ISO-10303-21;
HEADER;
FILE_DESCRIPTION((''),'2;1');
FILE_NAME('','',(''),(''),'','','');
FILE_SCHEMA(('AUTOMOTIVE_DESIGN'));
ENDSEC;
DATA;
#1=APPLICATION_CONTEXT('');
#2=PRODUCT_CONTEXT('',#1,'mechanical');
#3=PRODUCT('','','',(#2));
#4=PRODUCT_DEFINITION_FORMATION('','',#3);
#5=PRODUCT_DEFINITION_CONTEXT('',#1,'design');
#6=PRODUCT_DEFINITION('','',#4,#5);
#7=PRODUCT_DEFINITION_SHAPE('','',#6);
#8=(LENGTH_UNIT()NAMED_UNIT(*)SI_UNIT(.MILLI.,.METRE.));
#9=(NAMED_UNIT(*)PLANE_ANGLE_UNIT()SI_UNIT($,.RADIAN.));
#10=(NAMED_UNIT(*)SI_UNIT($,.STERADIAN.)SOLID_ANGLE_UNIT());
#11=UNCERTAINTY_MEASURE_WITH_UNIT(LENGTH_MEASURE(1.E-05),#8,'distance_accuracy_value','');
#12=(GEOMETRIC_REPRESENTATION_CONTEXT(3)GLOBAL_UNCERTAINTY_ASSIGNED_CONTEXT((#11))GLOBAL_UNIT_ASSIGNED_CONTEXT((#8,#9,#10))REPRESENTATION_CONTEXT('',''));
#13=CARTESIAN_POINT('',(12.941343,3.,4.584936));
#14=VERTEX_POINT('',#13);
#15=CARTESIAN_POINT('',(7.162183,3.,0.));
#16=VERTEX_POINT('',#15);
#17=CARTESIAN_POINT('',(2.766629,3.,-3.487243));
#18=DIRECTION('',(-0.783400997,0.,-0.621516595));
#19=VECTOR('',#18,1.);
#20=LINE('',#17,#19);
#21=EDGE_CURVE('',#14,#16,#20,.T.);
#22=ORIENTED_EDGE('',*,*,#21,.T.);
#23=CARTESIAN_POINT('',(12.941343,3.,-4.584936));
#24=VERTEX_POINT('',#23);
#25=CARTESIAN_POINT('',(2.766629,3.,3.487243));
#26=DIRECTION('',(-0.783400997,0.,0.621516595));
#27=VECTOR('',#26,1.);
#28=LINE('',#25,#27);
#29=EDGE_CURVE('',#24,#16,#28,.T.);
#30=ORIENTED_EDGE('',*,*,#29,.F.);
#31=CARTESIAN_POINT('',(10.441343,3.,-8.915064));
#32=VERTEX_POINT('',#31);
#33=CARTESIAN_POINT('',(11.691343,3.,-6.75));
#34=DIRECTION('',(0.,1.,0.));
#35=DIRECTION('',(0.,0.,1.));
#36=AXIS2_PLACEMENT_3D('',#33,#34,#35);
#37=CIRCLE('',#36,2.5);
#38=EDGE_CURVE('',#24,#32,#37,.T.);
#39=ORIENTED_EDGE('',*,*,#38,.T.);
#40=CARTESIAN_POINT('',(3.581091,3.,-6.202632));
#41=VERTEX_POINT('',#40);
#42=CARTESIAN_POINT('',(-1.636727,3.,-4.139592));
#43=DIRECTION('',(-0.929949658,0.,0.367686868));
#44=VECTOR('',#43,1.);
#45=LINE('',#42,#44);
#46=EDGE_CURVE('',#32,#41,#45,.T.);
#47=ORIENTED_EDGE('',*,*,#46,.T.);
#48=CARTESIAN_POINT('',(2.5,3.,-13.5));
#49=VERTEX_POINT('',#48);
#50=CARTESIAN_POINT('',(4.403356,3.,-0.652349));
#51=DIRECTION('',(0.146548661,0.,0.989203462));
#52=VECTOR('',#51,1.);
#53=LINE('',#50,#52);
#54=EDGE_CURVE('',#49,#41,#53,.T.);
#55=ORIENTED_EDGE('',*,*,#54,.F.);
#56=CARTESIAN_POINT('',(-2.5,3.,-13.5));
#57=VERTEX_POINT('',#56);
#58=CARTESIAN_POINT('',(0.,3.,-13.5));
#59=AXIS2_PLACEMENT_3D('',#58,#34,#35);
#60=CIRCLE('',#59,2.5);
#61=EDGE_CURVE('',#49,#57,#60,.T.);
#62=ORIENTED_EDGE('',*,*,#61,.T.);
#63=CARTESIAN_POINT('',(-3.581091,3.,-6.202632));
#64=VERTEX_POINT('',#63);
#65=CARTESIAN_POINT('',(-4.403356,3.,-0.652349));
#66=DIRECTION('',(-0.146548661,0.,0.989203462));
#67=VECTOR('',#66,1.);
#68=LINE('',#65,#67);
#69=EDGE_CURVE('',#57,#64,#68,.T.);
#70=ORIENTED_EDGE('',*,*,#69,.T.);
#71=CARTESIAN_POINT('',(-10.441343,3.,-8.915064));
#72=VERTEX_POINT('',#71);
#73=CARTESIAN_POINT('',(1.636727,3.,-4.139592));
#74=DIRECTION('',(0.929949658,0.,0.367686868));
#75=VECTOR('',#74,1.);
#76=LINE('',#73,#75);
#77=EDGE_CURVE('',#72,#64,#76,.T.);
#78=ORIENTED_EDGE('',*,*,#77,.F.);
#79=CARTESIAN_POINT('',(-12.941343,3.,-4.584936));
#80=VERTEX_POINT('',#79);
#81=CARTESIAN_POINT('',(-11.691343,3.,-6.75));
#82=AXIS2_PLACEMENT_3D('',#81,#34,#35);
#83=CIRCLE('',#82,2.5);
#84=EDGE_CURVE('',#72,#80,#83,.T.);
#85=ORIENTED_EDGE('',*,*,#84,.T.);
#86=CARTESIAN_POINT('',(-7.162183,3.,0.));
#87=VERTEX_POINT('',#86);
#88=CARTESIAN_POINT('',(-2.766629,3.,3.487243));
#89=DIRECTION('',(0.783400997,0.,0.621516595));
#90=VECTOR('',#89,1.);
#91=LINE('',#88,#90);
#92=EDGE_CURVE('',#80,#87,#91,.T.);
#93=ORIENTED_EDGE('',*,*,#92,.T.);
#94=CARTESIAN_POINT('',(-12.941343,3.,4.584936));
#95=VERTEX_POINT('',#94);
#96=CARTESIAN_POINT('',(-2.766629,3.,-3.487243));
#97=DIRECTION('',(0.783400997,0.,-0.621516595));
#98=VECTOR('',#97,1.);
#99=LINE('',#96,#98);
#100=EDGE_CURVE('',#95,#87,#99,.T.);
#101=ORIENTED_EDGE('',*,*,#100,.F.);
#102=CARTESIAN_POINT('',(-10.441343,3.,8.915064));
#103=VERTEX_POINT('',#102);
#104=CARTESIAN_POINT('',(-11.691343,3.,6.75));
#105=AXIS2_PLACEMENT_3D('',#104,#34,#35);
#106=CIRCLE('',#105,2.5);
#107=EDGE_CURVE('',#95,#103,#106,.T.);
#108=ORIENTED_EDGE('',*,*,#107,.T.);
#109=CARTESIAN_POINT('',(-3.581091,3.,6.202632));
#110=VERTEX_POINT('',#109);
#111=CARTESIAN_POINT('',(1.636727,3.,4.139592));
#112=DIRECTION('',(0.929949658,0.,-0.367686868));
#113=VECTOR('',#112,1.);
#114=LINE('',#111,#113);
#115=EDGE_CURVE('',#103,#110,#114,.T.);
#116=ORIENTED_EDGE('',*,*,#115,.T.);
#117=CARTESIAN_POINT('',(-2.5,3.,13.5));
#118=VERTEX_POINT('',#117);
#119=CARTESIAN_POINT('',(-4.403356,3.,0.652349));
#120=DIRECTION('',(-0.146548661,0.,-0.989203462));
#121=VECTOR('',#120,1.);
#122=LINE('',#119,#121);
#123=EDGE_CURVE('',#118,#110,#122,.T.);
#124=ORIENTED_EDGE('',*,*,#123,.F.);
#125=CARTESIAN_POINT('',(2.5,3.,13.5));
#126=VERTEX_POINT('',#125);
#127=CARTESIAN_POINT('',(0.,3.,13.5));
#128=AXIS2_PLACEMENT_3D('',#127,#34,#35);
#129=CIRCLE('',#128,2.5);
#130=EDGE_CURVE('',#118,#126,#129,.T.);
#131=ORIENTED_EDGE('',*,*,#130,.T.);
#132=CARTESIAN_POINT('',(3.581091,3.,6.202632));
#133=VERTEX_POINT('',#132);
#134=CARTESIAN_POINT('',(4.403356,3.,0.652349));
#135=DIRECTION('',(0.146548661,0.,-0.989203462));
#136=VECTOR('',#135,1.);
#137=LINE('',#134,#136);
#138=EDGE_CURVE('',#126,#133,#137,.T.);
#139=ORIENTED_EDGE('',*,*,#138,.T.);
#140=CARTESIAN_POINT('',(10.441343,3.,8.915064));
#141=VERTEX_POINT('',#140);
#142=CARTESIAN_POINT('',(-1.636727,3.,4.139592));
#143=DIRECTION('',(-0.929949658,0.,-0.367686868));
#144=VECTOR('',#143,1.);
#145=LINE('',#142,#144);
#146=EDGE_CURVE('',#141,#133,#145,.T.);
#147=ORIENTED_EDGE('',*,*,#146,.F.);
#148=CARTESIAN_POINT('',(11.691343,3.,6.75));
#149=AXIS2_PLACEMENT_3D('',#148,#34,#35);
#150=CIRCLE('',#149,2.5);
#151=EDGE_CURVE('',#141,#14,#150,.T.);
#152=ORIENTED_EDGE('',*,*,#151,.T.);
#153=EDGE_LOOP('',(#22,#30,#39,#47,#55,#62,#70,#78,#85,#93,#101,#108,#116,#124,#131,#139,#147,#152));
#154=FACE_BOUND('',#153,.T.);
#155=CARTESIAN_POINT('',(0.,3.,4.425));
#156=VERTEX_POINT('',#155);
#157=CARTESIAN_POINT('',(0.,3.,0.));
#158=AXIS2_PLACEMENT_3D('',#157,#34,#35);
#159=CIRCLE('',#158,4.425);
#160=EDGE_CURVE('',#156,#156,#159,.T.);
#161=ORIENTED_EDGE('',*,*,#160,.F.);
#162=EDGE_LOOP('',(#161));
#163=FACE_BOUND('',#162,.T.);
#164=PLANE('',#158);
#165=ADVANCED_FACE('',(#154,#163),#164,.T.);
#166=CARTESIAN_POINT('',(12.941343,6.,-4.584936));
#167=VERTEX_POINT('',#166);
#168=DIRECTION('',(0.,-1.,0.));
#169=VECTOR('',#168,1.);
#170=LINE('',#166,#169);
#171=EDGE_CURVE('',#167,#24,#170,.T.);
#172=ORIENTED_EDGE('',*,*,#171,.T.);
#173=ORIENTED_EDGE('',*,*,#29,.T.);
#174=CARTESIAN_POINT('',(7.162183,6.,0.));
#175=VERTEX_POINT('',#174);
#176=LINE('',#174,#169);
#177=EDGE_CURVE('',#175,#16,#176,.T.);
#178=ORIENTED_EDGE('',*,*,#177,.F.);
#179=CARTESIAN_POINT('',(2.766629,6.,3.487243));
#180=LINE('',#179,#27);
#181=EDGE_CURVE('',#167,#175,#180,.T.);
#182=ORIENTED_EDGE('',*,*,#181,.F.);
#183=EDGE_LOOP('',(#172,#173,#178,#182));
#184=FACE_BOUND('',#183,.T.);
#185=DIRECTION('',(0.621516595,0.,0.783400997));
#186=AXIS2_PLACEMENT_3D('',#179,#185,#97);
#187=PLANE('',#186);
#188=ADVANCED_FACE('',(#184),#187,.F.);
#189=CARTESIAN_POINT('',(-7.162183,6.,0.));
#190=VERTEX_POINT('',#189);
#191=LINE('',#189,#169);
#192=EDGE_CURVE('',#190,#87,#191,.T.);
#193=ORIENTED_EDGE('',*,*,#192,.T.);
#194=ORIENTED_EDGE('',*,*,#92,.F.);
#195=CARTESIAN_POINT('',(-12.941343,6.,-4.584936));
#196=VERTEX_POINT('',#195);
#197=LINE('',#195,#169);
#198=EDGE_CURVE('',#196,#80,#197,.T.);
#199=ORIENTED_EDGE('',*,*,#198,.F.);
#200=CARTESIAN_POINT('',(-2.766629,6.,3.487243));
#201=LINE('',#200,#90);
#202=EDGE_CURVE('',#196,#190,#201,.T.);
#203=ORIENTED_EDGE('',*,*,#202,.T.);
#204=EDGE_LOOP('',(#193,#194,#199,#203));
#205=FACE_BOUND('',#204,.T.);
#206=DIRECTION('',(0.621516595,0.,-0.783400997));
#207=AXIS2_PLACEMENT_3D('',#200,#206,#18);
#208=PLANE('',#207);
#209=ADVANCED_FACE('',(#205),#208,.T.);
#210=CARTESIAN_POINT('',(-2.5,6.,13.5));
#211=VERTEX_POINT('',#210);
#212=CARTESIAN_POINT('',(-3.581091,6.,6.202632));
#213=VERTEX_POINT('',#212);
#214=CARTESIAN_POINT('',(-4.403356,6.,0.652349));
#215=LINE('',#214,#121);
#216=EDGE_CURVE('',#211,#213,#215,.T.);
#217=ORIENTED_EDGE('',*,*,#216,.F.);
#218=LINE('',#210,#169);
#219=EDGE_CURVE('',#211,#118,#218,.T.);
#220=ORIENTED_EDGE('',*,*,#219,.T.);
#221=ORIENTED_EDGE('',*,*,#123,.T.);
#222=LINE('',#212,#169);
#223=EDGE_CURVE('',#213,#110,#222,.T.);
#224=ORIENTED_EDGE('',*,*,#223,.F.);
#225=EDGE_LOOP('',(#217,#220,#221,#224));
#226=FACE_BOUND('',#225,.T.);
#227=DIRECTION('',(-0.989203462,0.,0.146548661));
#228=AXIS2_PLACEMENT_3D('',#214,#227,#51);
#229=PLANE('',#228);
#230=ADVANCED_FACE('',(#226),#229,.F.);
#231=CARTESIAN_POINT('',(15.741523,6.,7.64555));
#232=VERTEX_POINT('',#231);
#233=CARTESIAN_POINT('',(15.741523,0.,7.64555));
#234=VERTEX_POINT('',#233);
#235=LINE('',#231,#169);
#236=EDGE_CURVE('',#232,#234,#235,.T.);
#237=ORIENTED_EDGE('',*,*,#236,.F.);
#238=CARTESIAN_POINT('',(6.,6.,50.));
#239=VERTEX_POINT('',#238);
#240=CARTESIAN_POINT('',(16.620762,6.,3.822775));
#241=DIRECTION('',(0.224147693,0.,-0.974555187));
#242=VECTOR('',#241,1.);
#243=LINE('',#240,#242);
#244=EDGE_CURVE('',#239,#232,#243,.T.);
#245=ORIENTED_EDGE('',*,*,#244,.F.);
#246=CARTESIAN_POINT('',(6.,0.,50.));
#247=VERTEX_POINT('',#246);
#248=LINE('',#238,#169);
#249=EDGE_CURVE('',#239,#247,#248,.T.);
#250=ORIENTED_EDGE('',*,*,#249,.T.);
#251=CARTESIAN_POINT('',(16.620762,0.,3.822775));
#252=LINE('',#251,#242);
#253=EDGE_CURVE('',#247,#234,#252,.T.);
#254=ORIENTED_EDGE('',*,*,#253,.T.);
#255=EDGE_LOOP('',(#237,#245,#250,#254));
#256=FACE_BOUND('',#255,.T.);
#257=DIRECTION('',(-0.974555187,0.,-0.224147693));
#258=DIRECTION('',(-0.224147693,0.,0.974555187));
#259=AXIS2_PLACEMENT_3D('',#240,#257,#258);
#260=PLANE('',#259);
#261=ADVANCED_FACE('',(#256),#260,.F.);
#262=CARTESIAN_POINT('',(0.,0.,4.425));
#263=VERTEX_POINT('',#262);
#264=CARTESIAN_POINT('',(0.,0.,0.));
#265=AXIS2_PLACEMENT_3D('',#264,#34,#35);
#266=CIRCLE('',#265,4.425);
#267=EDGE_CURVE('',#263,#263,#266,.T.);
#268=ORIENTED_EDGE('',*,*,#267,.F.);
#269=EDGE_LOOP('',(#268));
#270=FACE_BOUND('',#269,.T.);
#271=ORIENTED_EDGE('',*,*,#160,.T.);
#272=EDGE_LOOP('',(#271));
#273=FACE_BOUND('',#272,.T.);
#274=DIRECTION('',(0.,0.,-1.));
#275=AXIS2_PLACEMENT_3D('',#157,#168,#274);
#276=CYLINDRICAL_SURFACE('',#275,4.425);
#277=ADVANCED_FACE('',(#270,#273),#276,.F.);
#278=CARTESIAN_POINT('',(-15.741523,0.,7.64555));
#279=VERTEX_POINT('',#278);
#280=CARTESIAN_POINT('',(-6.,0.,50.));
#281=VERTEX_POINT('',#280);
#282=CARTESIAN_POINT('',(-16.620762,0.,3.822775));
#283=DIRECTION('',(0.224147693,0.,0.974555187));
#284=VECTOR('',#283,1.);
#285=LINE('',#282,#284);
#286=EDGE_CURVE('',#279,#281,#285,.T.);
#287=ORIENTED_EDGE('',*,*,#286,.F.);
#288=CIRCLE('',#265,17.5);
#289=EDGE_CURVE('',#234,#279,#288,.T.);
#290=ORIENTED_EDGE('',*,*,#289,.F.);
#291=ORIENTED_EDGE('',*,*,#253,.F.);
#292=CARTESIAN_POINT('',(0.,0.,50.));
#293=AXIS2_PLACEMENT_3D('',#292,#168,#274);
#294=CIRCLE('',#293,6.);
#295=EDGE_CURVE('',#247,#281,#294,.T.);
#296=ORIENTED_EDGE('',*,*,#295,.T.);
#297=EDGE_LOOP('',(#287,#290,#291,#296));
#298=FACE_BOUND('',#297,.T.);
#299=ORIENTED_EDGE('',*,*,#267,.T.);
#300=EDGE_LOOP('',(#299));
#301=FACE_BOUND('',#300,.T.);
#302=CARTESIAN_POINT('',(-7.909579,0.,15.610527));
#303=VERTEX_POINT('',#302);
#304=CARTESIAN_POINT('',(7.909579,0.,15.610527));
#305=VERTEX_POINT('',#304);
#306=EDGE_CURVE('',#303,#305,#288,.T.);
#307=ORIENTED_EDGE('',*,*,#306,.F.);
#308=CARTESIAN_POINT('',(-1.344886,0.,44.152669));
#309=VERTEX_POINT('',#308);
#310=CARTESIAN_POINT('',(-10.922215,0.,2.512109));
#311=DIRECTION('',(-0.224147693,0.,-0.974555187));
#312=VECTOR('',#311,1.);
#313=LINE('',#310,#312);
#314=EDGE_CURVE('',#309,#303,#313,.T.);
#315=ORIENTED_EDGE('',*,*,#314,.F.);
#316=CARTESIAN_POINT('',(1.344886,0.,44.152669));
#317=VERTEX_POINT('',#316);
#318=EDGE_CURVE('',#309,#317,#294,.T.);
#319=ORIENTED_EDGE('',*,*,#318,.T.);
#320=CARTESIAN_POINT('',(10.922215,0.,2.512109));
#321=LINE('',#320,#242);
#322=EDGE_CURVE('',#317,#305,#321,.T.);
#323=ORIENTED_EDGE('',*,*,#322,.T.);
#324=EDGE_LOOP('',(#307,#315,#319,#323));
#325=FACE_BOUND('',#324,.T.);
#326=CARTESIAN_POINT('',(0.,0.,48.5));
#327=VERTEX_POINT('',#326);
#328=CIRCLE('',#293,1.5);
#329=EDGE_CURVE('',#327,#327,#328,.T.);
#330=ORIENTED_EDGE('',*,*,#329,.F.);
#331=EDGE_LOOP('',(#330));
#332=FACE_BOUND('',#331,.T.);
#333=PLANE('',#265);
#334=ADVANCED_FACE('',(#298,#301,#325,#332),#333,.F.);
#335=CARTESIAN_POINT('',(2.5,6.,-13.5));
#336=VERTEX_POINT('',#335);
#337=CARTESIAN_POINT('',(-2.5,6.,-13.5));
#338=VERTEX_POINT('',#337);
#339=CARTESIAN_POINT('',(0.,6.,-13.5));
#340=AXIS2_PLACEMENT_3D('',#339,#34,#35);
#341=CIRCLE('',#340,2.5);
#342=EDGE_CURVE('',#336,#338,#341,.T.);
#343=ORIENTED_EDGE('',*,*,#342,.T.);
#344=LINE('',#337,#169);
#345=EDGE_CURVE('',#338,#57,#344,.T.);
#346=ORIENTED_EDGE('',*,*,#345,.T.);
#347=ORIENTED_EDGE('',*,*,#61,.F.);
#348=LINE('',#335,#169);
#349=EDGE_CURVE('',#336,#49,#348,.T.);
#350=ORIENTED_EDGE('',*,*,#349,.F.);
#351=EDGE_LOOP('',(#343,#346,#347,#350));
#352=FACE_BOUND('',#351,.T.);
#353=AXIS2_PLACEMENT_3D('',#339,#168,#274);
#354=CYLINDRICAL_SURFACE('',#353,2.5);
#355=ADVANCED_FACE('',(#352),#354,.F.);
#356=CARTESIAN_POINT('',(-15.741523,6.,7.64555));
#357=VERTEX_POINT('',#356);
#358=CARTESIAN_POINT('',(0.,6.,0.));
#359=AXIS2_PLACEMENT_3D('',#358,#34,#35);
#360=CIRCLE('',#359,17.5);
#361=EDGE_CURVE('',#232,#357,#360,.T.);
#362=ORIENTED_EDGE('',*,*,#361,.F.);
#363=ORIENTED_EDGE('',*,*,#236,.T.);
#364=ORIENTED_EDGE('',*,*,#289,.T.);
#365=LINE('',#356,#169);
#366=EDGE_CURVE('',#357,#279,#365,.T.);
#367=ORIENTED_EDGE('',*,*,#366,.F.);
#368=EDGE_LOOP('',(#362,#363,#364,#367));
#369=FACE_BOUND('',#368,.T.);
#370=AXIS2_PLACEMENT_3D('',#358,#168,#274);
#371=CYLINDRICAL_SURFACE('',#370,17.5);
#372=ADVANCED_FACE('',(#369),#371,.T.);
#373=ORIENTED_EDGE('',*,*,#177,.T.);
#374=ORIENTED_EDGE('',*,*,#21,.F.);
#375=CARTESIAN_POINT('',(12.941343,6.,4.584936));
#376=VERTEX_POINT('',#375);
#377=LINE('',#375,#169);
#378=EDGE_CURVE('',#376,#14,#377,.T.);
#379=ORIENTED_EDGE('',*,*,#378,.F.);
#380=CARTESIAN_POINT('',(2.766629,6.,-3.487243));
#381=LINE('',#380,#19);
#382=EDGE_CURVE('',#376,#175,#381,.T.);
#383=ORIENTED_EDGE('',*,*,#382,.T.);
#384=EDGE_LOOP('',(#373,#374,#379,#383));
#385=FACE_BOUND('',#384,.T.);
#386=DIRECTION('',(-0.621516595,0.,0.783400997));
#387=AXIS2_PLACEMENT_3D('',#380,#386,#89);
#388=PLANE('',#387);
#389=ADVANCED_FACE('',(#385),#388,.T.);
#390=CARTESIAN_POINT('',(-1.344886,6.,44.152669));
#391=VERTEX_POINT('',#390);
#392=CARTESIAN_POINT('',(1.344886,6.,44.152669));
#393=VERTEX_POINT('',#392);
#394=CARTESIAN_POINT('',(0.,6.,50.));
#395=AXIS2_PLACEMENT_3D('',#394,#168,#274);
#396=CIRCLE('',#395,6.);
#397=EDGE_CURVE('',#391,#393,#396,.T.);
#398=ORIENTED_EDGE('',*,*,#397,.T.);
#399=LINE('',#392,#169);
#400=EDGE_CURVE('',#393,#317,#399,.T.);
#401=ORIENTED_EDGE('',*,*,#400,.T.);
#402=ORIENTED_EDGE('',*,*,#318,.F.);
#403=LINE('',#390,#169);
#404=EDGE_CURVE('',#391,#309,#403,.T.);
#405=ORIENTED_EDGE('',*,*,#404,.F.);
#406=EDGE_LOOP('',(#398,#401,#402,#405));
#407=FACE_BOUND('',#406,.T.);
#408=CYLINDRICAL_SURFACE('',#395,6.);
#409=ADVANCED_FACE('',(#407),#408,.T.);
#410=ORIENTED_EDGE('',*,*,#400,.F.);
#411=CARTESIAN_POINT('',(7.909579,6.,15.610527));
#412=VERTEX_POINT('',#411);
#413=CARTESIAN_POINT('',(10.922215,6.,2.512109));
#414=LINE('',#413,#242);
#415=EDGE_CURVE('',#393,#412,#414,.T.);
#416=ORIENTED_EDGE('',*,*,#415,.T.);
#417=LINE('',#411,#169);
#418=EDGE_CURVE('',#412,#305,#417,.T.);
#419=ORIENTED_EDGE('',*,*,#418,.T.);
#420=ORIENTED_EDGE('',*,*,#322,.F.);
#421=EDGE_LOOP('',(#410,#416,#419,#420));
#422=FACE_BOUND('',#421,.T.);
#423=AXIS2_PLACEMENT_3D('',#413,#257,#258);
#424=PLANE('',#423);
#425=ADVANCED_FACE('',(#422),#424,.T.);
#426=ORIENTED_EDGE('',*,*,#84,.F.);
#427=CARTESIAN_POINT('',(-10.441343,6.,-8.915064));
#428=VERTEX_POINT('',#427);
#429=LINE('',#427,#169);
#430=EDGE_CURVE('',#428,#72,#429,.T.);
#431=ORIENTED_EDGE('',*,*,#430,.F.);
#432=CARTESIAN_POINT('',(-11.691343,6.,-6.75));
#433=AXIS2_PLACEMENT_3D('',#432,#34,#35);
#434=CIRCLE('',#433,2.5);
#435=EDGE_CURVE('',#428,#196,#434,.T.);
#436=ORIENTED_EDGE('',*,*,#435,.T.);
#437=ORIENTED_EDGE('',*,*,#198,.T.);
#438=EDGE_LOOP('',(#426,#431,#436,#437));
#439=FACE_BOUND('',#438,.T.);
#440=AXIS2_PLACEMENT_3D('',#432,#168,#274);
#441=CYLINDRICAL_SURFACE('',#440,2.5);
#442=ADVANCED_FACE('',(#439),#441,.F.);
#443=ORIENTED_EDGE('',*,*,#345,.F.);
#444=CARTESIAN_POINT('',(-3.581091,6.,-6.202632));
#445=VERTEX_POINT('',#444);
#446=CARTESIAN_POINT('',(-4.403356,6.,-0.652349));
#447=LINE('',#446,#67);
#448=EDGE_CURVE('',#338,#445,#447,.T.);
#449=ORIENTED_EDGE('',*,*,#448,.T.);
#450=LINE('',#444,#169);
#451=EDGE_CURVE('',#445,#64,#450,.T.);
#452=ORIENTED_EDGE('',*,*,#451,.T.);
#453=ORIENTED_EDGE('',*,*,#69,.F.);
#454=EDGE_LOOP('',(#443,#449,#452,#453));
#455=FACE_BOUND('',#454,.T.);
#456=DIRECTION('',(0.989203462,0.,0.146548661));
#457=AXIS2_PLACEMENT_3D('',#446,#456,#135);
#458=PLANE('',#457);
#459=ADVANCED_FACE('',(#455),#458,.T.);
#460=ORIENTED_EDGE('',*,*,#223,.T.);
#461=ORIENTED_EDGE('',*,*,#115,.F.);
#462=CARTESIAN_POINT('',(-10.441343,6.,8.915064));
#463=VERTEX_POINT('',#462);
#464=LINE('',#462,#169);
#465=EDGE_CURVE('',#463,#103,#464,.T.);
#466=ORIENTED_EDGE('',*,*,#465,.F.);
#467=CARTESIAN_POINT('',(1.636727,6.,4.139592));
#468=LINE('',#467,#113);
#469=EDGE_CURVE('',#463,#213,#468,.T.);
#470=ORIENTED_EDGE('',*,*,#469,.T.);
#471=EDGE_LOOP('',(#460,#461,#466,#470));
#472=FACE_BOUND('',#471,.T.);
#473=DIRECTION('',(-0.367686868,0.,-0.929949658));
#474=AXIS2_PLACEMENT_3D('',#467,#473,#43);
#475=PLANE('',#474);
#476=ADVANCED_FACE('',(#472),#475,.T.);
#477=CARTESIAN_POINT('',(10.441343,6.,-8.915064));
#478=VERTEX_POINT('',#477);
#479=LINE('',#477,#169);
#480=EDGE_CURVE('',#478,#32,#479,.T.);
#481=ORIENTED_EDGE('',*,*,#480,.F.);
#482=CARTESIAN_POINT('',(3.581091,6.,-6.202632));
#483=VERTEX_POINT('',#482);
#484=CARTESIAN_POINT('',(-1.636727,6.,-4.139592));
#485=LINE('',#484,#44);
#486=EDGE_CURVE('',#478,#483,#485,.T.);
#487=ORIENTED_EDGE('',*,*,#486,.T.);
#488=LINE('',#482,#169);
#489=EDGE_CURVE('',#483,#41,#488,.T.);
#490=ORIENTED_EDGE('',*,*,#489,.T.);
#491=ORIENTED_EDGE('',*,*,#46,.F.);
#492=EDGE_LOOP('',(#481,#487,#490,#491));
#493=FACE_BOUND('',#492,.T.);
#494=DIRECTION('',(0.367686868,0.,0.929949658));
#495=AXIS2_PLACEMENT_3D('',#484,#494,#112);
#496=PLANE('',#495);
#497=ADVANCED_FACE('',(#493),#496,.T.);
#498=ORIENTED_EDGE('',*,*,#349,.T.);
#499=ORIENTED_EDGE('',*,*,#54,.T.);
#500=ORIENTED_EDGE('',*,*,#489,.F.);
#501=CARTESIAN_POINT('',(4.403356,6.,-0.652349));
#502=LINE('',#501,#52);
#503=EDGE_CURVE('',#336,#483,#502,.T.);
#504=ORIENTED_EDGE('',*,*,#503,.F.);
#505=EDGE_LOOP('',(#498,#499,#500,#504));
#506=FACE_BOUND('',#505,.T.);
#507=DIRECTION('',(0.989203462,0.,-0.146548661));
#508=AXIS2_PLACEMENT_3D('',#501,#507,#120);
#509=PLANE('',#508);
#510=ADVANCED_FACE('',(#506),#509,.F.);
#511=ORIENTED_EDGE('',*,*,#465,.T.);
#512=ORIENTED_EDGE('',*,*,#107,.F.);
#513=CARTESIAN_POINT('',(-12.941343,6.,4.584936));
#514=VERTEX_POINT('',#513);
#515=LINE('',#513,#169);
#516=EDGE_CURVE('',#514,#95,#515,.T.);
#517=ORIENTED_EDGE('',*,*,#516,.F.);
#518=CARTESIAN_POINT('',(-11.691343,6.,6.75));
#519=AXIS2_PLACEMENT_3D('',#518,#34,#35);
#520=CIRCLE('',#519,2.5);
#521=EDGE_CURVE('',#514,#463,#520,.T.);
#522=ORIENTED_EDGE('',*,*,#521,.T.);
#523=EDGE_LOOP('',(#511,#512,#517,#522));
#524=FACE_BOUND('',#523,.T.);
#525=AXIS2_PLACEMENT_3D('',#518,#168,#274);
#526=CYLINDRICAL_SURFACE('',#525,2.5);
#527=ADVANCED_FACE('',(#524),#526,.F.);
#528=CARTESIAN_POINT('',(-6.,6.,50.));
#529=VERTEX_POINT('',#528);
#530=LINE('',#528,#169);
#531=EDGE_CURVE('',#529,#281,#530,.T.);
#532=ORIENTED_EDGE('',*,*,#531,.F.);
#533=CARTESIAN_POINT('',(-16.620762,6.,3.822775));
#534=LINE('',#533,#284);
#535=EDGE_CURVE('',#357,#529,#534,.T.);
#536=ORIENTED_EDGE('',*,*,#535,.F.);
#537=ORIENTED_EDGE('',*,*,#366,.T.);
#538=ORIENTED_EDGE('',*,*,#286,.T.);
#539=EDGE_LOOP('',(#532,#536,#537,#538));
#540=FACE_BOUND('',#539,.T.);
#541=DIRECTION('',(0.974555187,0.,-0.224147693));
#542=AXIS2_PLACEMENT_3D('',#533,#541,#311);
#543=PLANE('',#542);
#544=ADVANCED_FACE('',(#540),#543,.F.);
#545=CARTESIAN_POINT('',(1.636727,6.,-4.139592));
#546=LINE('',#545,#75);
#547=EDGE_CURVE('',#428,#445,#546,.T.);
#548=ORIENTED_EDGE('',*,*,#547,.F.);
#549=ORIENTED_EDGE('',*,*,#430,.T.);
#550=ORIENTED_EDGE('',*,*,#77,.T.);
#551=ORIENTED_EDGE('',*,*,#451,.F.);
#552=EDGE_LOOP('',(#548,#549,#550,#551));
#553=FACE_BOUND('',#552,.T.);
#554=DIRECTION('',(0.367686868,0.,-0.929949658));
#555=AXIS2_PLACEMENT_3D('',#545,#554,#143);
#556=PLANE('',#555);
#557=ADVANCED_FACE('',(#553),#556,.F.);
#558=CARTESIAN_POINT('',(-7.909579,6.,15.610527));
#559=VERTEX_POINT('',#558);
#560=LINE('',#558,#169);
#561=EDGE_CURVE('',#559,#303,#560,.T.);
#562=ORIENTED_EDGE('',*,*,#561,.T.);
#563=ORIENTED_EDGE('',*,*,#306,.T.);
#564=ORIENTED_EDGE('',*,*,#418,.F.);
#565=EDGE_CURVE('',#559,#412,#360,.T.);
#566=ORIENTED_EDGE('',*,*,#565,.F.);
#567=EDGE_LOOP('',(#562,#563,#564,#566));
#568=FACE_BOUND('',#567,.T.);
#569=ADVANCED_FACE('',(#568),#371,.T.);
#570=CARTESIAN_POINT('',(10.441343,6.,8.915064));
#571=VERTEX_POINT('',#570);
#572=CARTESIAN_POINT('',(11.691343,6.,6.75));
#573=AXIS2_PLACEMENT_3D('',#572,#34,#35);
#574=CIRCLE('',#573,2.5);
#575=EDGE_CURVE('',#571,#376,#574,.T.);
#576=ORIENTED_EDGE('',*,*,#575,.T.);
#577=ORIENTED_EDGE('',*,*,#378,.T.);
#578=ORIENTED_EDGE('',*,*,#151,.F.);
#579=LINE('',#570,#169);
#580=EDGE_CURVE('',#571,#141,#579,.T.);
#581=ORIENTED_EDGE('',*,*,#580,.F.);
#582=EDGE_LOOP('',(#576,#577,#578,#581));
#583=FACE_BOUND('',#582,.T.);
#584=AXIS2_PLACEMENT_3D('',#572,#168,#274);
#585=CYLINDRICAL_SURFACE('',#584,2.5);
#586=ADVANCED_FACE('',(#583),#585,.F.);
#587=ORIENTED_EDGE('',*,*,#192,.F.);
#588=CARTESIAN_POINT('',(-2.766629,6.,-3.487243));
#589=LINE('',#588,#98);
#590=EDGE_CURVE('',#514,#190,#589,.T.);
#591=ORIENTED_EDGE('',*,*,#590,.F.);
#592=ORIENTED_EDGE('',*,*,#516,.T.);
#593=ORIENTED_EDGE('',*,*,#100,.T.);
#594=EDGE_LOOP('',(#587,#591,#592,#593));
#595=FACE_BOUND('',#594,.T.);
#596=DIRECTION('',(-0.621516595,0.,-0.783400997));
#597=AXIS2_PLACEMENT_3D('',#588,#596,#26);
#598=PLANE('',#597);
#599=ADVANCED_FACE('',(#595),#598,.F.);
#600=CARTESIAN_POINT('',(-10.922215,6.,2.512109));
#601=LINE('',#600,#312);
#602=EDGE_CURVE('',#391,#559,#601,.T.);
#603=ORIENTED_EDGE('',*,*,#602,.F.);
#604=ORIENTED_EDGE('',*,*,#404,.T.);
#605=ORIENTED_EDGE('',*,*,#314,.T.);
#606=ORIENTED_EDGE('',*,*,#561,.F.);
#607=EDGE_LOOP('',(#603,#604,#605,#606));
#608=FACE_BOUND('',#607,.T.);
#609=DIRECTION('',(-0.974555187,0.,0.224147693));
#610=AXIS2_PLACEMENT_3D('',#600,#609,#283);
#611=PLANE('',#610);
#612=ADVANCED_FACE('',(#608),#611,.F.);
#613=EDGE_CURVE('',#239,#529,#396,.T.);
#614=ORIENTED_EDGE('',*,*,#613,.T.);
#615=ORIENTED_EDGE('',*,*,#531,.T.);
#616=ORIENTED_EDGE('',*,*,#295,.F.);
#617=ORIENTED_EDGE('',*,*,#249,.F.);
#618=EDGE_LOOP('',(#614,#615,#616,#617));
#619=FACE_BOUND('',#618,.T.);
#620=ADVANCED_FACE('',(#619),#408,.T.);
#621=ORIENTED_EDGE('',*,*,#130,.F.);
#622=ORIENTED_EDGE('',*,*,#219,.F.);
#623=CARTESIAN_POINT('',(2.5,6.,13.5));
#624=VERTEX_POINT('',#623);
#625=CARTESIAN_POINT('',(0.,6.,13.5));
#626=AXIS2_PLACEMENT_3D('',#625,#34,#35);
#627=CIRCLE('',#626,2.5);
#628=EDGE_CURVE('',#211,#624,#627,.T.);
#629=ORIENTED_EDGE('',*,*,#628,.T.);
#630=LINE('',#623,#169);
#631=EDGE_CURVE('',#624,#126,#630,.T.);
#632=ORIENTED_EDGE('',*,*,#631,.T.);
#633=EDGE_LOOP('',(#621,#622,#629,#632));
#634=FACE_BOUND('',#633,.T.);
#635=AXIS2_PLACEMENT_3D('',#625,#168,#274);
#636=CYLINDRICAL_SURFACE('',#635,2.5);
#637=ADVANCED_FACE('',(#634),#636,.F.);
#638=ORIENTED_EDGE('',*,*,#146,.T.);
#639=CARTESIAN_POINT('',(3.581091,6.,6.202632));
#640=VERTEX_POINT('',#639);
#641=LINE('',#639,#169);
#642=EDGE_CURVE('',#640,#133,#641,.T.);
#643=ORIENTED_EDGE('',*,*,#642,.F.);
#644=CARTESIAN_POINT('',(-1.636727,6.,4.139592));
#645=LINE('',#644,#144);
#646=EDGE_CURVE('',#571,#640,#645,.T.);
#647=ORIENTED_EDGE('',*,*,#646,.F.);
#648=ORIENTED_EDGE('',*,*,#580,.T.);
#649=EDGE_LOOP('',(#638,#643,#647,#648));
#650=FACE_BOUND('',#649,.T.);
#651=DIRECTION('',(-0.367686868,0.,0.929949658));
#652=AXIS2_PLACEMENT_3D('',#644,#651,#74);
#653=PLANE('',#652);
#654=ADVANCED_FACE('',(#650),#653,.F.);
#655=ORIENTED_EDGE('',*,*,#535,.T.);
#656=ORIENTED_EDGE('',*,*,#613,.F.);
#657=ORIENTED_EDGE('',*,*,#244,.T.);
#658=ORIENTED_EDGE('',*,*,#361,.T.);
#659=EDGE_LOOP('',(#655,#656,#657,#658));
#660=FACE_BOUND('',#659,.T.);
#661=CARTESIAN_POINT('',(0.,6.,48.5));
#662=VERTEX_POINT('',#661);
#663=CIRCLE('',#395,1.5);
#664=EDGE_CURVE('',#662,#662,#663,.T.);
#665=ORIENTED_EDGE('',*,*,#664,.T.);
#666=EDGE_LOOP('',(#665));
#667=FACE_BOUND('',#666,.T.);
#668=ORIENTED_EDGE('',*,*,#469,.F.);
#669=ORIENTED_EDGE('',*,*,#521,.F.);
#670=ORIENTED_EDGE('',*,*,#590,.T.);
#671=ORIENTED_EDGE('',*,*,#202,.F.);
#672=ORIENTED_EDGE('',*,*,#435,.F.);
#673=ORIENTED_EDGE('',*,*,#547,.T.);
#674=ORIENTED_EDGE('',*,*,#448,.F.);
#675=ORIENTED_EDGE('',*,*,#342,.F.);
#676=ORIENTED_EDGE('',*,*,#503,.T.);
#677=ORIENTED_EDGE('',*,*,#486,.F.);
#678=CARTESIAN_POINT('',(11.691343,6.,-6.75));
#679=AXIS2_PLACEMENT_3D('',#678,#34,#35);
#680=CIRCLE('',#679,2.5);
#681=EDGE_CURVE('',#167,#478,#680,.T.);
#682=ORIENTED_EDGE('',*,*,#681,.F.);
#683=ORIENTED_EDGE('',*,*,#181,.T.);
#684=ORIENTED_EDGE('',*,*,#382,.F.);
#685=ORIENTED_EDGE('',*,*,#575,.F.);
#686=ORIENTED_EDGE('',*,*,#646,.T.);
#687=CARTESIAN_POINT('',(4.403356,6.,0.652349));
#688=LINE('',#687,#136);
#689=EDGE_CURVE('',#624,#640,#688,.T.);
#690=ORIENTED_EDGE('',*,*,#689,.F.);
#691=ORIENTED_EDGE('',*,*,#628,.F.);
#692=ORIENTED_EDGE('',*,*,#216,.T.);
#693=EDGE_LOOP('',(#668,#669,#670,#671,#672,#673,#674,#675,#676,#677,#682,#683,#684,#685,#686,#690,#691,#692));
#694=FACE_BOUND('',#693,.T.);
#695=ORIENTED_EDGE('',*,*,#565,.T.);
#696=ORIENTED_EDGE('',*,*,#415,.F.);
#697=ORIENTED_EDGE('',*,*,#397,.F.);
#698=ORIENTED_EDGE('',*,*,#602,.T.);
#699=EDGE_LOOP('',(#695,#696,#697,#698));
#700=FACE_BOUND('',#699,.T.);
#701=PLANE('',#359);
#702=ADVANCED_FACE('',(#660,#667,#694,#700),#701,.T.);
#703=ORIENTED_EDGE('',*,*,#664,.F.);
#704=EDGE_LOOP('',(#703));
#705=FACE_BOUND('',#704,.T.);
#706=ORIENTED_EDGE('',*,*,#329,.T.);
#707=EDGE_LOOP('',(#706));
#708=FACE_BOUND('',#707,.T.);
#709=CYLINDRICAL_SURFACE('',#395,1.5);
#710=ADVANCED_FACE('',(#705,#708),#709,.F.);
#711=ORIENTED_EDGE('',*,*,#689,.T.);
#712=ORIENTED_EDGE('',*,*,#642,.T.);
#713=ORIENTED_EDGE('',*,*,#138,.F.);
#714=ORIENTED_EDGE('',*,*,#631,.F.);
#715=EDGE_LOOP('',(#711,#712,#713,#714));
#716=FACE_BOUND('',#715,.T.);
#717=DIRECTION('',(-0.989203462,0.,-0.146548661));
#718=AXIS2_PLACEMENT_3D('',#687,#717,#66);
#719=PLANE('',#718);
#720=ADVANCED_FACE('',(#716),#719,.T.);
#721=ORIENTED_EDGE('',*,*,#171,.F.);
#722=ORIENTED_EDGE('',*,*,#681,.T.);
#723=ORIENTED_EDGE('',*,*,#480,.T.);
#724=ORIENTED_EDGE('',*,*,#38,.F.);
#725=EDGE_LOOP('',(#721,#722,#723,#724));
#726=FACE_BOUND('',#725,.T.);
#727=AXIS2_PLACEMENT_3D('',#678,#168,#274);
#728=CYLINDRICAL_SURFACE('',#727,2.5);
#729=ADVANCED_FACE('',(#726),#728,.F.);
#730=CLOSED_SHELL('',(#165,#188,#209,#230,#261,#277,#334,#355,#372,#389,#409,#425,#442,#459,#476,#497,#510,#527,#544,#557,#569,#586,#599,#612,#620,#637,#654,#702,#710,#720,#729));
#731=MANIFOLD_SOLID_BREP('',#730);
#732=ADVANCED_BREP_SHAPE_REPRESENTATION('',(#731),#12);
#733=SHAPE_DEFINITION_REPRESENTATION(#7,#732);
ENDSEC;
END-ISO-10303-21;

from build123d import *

# Parameters (mm, degrees)
SKETCH1_R           = 17.5
BOSS_EXTRUDE3_DEPTH = 6
SKETCH1_11_R        = 4.425
BOSS_EXTRUDE5_DEPTH = 3
SKETCH2_R           = 1.5
BOSS_EXTRUDE6_DEPTH = 6


with BuildPart() as part:
    # Sketch1 → Boss-Extrude3 (new body)
    with BuildSketch(Plane(origin=(0, 0, 0), x_dir=(1, 0, 0), z_dir=(0, 1, 0))):
        Circle(SKETCH1_R)
        with BuildLine():
            ThreePointArc((-2.5, 13.5), (-1.767766953, 15.267766953), (0, 16))
            ThreePointArc((0, 16), (1.767766953, 15.267766953), (2.5, 13.5))
            Line((2.5, 13.5), (3.581091494, 6.202632414))
            Line((3.581091494, 6.202632414), (10.441342951, 8.915063509))
            ThreePointArc((10.441342951, 8.915063509), (12.338390564, 9.164814566), (13.856406461, 8))
            ThreePointArc((13.856406461, 8), (14.106157517, 7.397047613), (14.191342951, 6.75))
            ThreePointArc((14.191342951, 6.75), (13.856406461, 5.5), (12.941342951, 4.584936491))
            Line((12.941342951, 4.584936491), (7.162182988, 0))
            Line((7.162182988, 0), (12.941342951, -4.584936491))
            ThreePointArc((12.941342951, -4.584936491), (13.856406461, -5.5), (14.191342951, -6.75))
            ThreePointArc((14.191342951, -6.75), (14.106157517, -7.397047613), (13.856406461, -8))
            ThreePointArc((13.856406461, -8), (12.338390564, -9.164814566), (10.441342951, -8.915063509))
            Line((10.441342951, -8.915063509), (3.581091494, -6.202632414))
            Line((3.581091494, -6.202632414), (2.5, -13.5))
            ThreePointArc((2.5, -13.5), (1.767766953, -15.267766953), (0, -16))
            ThreePointArc((0, -16), (-1.767766953, -15.267766953), (-2.5, -13.5))
            Line((-2.5, -13.5), (-3.581091494, -6.202632414))
            Line((-3.581091494, -6.202632414), (-10.441342951, -8.915063509))
            ThreePointArc((-10.441342951, -8.915063509), (-12.338390564, -9.164814566), (-13.856406461, -8))
            ThreePointArc((-13.856406461, -8), (-14.106157517, -6.102952387), (-12.941342951, -4.584936491))
            Line((-12.941342951, -4.584936491), (-7.162182988, 0))
            Line((-7.162182988, 0), (-12.941342951, 4.584936491))
            ThreePointArc((-12.941342951, 4.584936491), (-14.106157517, 6.102952387), (-13.856406461, 8))
            ThreePointArc((-13.856406461, 8), (-12.338390564, 9.164814566), (-10.441342951, 8.915063509))
            Line((-10.441342951, 8.915063509), (-3.581091494, 6.202632414))
            Line((-3.581091494, 6.202632414), (-2.5, 13.5))
        make_face(mode=Mode.SUBTRACT)
    extrude(amount=BOSS_EXTRUDE3_DEPTH)

    # Sketch1<11> → Boss-Extrude5 (add)
    with BuildSketch(Plane(origin=(0, 0, 0), x_dir=(1, 0, 0), z_dir=(0, 1, 0))):
        with BuildLine():
            Line((-2.5, 13.5), (-3.581091494, 6.202632414))
            Line((-3.581091494, 6.202632414), (-10.441342951, 8.915063509))
            ThreePointArc((-10.441342951, 8.915063509), (-13.856406461, 8), (-12.941342951, 4.584936491))
            Line((-12.941342951, 4.584936491), (-7.162182988, 0))
            Line((-7.162182988, 0), (-12.941342951, -4.584936491))
            ThreePointArc((-12.941342951, -4.584936491), (-13.856406461, -8), (-10.441342951, -8.915063509))
            Line((-10.441342951, -8.915063509), (-3.581091494, -6.202632414))
            Line((-3.581091494, -6.202632414), (-2.5, -13.5))
            ThreePointArc((-2.5, -13.5), (0, -16), (2.5, -13.5))
            Line((2.5, -13.5), (3.581091494, -6.202632414))
            Line((3.581091494, -6.202632414), (10.441342951, -8.915063509))
            ThreePointArc((10.441342951, -8.915063509), (13.856406461, -8), (12.941342951, -4.584936491))
            Line((12.941342951, -4.584936491), (7.162182988, 0))
            Line((7.162182988, 0), (12.941342951, 4.584936491))
            ThreePointArc((12.941342951, 4.584936491), (13.856406461, 8), (10.441342951, 8.915063509))
            Line((10.441342951, 8.915063509), (3.581091494, 6.202632414))
            Line((3.581091494, 6.202632414), (2.5, 13.5))
            ThreePointArc((2.5, 13.5), (0, 16), (-2.5, 13.5))
        make_face()
        Circle(SKETCH1_11_R, mode=Mode.SUBTRACT)
    extrude(amount=BOSS_EXTRUDE5_DEPTH)

    # Sketch2 → Boss-Extrude6 (add)
    with BuildSketch(Plane.XZ):
        with BuildLine():
            ThreePointArc((-1.344886158, 44.15266888), (0, 44), (1.344886158, 44.15266888))
            Line((1.344886158, 44.15266888), (7.909578705, 15.610527368))
            ThreePointArc((7.909578705, 15.610527368), (12.478135775, 12.269724022), (15.741523412, 7.645550385))
            Line((15.741523412, 7.645550385), (6, 50))
            ThreePointArc((6, 50), (0, 56), (-6, 50))
            Line((-6, 50), (-15.741523412, 7.645550385))
            ThreePointArc((-15.741523412, 7.645550385), (-12.478135775, 12.269724022), (-7.909578705, 15.610527368))
            Line((-7.909578705, 15.610527368), (-1.344886158, 44.15266888))
        make_face()
        with Locations((0, 50)):
            Circle(SKETCH2_R, mode=Mode.SUBTRACT)
    extrude(amount=-BOSS_EXTRUDE6_DEPTH)


solid = part.part
